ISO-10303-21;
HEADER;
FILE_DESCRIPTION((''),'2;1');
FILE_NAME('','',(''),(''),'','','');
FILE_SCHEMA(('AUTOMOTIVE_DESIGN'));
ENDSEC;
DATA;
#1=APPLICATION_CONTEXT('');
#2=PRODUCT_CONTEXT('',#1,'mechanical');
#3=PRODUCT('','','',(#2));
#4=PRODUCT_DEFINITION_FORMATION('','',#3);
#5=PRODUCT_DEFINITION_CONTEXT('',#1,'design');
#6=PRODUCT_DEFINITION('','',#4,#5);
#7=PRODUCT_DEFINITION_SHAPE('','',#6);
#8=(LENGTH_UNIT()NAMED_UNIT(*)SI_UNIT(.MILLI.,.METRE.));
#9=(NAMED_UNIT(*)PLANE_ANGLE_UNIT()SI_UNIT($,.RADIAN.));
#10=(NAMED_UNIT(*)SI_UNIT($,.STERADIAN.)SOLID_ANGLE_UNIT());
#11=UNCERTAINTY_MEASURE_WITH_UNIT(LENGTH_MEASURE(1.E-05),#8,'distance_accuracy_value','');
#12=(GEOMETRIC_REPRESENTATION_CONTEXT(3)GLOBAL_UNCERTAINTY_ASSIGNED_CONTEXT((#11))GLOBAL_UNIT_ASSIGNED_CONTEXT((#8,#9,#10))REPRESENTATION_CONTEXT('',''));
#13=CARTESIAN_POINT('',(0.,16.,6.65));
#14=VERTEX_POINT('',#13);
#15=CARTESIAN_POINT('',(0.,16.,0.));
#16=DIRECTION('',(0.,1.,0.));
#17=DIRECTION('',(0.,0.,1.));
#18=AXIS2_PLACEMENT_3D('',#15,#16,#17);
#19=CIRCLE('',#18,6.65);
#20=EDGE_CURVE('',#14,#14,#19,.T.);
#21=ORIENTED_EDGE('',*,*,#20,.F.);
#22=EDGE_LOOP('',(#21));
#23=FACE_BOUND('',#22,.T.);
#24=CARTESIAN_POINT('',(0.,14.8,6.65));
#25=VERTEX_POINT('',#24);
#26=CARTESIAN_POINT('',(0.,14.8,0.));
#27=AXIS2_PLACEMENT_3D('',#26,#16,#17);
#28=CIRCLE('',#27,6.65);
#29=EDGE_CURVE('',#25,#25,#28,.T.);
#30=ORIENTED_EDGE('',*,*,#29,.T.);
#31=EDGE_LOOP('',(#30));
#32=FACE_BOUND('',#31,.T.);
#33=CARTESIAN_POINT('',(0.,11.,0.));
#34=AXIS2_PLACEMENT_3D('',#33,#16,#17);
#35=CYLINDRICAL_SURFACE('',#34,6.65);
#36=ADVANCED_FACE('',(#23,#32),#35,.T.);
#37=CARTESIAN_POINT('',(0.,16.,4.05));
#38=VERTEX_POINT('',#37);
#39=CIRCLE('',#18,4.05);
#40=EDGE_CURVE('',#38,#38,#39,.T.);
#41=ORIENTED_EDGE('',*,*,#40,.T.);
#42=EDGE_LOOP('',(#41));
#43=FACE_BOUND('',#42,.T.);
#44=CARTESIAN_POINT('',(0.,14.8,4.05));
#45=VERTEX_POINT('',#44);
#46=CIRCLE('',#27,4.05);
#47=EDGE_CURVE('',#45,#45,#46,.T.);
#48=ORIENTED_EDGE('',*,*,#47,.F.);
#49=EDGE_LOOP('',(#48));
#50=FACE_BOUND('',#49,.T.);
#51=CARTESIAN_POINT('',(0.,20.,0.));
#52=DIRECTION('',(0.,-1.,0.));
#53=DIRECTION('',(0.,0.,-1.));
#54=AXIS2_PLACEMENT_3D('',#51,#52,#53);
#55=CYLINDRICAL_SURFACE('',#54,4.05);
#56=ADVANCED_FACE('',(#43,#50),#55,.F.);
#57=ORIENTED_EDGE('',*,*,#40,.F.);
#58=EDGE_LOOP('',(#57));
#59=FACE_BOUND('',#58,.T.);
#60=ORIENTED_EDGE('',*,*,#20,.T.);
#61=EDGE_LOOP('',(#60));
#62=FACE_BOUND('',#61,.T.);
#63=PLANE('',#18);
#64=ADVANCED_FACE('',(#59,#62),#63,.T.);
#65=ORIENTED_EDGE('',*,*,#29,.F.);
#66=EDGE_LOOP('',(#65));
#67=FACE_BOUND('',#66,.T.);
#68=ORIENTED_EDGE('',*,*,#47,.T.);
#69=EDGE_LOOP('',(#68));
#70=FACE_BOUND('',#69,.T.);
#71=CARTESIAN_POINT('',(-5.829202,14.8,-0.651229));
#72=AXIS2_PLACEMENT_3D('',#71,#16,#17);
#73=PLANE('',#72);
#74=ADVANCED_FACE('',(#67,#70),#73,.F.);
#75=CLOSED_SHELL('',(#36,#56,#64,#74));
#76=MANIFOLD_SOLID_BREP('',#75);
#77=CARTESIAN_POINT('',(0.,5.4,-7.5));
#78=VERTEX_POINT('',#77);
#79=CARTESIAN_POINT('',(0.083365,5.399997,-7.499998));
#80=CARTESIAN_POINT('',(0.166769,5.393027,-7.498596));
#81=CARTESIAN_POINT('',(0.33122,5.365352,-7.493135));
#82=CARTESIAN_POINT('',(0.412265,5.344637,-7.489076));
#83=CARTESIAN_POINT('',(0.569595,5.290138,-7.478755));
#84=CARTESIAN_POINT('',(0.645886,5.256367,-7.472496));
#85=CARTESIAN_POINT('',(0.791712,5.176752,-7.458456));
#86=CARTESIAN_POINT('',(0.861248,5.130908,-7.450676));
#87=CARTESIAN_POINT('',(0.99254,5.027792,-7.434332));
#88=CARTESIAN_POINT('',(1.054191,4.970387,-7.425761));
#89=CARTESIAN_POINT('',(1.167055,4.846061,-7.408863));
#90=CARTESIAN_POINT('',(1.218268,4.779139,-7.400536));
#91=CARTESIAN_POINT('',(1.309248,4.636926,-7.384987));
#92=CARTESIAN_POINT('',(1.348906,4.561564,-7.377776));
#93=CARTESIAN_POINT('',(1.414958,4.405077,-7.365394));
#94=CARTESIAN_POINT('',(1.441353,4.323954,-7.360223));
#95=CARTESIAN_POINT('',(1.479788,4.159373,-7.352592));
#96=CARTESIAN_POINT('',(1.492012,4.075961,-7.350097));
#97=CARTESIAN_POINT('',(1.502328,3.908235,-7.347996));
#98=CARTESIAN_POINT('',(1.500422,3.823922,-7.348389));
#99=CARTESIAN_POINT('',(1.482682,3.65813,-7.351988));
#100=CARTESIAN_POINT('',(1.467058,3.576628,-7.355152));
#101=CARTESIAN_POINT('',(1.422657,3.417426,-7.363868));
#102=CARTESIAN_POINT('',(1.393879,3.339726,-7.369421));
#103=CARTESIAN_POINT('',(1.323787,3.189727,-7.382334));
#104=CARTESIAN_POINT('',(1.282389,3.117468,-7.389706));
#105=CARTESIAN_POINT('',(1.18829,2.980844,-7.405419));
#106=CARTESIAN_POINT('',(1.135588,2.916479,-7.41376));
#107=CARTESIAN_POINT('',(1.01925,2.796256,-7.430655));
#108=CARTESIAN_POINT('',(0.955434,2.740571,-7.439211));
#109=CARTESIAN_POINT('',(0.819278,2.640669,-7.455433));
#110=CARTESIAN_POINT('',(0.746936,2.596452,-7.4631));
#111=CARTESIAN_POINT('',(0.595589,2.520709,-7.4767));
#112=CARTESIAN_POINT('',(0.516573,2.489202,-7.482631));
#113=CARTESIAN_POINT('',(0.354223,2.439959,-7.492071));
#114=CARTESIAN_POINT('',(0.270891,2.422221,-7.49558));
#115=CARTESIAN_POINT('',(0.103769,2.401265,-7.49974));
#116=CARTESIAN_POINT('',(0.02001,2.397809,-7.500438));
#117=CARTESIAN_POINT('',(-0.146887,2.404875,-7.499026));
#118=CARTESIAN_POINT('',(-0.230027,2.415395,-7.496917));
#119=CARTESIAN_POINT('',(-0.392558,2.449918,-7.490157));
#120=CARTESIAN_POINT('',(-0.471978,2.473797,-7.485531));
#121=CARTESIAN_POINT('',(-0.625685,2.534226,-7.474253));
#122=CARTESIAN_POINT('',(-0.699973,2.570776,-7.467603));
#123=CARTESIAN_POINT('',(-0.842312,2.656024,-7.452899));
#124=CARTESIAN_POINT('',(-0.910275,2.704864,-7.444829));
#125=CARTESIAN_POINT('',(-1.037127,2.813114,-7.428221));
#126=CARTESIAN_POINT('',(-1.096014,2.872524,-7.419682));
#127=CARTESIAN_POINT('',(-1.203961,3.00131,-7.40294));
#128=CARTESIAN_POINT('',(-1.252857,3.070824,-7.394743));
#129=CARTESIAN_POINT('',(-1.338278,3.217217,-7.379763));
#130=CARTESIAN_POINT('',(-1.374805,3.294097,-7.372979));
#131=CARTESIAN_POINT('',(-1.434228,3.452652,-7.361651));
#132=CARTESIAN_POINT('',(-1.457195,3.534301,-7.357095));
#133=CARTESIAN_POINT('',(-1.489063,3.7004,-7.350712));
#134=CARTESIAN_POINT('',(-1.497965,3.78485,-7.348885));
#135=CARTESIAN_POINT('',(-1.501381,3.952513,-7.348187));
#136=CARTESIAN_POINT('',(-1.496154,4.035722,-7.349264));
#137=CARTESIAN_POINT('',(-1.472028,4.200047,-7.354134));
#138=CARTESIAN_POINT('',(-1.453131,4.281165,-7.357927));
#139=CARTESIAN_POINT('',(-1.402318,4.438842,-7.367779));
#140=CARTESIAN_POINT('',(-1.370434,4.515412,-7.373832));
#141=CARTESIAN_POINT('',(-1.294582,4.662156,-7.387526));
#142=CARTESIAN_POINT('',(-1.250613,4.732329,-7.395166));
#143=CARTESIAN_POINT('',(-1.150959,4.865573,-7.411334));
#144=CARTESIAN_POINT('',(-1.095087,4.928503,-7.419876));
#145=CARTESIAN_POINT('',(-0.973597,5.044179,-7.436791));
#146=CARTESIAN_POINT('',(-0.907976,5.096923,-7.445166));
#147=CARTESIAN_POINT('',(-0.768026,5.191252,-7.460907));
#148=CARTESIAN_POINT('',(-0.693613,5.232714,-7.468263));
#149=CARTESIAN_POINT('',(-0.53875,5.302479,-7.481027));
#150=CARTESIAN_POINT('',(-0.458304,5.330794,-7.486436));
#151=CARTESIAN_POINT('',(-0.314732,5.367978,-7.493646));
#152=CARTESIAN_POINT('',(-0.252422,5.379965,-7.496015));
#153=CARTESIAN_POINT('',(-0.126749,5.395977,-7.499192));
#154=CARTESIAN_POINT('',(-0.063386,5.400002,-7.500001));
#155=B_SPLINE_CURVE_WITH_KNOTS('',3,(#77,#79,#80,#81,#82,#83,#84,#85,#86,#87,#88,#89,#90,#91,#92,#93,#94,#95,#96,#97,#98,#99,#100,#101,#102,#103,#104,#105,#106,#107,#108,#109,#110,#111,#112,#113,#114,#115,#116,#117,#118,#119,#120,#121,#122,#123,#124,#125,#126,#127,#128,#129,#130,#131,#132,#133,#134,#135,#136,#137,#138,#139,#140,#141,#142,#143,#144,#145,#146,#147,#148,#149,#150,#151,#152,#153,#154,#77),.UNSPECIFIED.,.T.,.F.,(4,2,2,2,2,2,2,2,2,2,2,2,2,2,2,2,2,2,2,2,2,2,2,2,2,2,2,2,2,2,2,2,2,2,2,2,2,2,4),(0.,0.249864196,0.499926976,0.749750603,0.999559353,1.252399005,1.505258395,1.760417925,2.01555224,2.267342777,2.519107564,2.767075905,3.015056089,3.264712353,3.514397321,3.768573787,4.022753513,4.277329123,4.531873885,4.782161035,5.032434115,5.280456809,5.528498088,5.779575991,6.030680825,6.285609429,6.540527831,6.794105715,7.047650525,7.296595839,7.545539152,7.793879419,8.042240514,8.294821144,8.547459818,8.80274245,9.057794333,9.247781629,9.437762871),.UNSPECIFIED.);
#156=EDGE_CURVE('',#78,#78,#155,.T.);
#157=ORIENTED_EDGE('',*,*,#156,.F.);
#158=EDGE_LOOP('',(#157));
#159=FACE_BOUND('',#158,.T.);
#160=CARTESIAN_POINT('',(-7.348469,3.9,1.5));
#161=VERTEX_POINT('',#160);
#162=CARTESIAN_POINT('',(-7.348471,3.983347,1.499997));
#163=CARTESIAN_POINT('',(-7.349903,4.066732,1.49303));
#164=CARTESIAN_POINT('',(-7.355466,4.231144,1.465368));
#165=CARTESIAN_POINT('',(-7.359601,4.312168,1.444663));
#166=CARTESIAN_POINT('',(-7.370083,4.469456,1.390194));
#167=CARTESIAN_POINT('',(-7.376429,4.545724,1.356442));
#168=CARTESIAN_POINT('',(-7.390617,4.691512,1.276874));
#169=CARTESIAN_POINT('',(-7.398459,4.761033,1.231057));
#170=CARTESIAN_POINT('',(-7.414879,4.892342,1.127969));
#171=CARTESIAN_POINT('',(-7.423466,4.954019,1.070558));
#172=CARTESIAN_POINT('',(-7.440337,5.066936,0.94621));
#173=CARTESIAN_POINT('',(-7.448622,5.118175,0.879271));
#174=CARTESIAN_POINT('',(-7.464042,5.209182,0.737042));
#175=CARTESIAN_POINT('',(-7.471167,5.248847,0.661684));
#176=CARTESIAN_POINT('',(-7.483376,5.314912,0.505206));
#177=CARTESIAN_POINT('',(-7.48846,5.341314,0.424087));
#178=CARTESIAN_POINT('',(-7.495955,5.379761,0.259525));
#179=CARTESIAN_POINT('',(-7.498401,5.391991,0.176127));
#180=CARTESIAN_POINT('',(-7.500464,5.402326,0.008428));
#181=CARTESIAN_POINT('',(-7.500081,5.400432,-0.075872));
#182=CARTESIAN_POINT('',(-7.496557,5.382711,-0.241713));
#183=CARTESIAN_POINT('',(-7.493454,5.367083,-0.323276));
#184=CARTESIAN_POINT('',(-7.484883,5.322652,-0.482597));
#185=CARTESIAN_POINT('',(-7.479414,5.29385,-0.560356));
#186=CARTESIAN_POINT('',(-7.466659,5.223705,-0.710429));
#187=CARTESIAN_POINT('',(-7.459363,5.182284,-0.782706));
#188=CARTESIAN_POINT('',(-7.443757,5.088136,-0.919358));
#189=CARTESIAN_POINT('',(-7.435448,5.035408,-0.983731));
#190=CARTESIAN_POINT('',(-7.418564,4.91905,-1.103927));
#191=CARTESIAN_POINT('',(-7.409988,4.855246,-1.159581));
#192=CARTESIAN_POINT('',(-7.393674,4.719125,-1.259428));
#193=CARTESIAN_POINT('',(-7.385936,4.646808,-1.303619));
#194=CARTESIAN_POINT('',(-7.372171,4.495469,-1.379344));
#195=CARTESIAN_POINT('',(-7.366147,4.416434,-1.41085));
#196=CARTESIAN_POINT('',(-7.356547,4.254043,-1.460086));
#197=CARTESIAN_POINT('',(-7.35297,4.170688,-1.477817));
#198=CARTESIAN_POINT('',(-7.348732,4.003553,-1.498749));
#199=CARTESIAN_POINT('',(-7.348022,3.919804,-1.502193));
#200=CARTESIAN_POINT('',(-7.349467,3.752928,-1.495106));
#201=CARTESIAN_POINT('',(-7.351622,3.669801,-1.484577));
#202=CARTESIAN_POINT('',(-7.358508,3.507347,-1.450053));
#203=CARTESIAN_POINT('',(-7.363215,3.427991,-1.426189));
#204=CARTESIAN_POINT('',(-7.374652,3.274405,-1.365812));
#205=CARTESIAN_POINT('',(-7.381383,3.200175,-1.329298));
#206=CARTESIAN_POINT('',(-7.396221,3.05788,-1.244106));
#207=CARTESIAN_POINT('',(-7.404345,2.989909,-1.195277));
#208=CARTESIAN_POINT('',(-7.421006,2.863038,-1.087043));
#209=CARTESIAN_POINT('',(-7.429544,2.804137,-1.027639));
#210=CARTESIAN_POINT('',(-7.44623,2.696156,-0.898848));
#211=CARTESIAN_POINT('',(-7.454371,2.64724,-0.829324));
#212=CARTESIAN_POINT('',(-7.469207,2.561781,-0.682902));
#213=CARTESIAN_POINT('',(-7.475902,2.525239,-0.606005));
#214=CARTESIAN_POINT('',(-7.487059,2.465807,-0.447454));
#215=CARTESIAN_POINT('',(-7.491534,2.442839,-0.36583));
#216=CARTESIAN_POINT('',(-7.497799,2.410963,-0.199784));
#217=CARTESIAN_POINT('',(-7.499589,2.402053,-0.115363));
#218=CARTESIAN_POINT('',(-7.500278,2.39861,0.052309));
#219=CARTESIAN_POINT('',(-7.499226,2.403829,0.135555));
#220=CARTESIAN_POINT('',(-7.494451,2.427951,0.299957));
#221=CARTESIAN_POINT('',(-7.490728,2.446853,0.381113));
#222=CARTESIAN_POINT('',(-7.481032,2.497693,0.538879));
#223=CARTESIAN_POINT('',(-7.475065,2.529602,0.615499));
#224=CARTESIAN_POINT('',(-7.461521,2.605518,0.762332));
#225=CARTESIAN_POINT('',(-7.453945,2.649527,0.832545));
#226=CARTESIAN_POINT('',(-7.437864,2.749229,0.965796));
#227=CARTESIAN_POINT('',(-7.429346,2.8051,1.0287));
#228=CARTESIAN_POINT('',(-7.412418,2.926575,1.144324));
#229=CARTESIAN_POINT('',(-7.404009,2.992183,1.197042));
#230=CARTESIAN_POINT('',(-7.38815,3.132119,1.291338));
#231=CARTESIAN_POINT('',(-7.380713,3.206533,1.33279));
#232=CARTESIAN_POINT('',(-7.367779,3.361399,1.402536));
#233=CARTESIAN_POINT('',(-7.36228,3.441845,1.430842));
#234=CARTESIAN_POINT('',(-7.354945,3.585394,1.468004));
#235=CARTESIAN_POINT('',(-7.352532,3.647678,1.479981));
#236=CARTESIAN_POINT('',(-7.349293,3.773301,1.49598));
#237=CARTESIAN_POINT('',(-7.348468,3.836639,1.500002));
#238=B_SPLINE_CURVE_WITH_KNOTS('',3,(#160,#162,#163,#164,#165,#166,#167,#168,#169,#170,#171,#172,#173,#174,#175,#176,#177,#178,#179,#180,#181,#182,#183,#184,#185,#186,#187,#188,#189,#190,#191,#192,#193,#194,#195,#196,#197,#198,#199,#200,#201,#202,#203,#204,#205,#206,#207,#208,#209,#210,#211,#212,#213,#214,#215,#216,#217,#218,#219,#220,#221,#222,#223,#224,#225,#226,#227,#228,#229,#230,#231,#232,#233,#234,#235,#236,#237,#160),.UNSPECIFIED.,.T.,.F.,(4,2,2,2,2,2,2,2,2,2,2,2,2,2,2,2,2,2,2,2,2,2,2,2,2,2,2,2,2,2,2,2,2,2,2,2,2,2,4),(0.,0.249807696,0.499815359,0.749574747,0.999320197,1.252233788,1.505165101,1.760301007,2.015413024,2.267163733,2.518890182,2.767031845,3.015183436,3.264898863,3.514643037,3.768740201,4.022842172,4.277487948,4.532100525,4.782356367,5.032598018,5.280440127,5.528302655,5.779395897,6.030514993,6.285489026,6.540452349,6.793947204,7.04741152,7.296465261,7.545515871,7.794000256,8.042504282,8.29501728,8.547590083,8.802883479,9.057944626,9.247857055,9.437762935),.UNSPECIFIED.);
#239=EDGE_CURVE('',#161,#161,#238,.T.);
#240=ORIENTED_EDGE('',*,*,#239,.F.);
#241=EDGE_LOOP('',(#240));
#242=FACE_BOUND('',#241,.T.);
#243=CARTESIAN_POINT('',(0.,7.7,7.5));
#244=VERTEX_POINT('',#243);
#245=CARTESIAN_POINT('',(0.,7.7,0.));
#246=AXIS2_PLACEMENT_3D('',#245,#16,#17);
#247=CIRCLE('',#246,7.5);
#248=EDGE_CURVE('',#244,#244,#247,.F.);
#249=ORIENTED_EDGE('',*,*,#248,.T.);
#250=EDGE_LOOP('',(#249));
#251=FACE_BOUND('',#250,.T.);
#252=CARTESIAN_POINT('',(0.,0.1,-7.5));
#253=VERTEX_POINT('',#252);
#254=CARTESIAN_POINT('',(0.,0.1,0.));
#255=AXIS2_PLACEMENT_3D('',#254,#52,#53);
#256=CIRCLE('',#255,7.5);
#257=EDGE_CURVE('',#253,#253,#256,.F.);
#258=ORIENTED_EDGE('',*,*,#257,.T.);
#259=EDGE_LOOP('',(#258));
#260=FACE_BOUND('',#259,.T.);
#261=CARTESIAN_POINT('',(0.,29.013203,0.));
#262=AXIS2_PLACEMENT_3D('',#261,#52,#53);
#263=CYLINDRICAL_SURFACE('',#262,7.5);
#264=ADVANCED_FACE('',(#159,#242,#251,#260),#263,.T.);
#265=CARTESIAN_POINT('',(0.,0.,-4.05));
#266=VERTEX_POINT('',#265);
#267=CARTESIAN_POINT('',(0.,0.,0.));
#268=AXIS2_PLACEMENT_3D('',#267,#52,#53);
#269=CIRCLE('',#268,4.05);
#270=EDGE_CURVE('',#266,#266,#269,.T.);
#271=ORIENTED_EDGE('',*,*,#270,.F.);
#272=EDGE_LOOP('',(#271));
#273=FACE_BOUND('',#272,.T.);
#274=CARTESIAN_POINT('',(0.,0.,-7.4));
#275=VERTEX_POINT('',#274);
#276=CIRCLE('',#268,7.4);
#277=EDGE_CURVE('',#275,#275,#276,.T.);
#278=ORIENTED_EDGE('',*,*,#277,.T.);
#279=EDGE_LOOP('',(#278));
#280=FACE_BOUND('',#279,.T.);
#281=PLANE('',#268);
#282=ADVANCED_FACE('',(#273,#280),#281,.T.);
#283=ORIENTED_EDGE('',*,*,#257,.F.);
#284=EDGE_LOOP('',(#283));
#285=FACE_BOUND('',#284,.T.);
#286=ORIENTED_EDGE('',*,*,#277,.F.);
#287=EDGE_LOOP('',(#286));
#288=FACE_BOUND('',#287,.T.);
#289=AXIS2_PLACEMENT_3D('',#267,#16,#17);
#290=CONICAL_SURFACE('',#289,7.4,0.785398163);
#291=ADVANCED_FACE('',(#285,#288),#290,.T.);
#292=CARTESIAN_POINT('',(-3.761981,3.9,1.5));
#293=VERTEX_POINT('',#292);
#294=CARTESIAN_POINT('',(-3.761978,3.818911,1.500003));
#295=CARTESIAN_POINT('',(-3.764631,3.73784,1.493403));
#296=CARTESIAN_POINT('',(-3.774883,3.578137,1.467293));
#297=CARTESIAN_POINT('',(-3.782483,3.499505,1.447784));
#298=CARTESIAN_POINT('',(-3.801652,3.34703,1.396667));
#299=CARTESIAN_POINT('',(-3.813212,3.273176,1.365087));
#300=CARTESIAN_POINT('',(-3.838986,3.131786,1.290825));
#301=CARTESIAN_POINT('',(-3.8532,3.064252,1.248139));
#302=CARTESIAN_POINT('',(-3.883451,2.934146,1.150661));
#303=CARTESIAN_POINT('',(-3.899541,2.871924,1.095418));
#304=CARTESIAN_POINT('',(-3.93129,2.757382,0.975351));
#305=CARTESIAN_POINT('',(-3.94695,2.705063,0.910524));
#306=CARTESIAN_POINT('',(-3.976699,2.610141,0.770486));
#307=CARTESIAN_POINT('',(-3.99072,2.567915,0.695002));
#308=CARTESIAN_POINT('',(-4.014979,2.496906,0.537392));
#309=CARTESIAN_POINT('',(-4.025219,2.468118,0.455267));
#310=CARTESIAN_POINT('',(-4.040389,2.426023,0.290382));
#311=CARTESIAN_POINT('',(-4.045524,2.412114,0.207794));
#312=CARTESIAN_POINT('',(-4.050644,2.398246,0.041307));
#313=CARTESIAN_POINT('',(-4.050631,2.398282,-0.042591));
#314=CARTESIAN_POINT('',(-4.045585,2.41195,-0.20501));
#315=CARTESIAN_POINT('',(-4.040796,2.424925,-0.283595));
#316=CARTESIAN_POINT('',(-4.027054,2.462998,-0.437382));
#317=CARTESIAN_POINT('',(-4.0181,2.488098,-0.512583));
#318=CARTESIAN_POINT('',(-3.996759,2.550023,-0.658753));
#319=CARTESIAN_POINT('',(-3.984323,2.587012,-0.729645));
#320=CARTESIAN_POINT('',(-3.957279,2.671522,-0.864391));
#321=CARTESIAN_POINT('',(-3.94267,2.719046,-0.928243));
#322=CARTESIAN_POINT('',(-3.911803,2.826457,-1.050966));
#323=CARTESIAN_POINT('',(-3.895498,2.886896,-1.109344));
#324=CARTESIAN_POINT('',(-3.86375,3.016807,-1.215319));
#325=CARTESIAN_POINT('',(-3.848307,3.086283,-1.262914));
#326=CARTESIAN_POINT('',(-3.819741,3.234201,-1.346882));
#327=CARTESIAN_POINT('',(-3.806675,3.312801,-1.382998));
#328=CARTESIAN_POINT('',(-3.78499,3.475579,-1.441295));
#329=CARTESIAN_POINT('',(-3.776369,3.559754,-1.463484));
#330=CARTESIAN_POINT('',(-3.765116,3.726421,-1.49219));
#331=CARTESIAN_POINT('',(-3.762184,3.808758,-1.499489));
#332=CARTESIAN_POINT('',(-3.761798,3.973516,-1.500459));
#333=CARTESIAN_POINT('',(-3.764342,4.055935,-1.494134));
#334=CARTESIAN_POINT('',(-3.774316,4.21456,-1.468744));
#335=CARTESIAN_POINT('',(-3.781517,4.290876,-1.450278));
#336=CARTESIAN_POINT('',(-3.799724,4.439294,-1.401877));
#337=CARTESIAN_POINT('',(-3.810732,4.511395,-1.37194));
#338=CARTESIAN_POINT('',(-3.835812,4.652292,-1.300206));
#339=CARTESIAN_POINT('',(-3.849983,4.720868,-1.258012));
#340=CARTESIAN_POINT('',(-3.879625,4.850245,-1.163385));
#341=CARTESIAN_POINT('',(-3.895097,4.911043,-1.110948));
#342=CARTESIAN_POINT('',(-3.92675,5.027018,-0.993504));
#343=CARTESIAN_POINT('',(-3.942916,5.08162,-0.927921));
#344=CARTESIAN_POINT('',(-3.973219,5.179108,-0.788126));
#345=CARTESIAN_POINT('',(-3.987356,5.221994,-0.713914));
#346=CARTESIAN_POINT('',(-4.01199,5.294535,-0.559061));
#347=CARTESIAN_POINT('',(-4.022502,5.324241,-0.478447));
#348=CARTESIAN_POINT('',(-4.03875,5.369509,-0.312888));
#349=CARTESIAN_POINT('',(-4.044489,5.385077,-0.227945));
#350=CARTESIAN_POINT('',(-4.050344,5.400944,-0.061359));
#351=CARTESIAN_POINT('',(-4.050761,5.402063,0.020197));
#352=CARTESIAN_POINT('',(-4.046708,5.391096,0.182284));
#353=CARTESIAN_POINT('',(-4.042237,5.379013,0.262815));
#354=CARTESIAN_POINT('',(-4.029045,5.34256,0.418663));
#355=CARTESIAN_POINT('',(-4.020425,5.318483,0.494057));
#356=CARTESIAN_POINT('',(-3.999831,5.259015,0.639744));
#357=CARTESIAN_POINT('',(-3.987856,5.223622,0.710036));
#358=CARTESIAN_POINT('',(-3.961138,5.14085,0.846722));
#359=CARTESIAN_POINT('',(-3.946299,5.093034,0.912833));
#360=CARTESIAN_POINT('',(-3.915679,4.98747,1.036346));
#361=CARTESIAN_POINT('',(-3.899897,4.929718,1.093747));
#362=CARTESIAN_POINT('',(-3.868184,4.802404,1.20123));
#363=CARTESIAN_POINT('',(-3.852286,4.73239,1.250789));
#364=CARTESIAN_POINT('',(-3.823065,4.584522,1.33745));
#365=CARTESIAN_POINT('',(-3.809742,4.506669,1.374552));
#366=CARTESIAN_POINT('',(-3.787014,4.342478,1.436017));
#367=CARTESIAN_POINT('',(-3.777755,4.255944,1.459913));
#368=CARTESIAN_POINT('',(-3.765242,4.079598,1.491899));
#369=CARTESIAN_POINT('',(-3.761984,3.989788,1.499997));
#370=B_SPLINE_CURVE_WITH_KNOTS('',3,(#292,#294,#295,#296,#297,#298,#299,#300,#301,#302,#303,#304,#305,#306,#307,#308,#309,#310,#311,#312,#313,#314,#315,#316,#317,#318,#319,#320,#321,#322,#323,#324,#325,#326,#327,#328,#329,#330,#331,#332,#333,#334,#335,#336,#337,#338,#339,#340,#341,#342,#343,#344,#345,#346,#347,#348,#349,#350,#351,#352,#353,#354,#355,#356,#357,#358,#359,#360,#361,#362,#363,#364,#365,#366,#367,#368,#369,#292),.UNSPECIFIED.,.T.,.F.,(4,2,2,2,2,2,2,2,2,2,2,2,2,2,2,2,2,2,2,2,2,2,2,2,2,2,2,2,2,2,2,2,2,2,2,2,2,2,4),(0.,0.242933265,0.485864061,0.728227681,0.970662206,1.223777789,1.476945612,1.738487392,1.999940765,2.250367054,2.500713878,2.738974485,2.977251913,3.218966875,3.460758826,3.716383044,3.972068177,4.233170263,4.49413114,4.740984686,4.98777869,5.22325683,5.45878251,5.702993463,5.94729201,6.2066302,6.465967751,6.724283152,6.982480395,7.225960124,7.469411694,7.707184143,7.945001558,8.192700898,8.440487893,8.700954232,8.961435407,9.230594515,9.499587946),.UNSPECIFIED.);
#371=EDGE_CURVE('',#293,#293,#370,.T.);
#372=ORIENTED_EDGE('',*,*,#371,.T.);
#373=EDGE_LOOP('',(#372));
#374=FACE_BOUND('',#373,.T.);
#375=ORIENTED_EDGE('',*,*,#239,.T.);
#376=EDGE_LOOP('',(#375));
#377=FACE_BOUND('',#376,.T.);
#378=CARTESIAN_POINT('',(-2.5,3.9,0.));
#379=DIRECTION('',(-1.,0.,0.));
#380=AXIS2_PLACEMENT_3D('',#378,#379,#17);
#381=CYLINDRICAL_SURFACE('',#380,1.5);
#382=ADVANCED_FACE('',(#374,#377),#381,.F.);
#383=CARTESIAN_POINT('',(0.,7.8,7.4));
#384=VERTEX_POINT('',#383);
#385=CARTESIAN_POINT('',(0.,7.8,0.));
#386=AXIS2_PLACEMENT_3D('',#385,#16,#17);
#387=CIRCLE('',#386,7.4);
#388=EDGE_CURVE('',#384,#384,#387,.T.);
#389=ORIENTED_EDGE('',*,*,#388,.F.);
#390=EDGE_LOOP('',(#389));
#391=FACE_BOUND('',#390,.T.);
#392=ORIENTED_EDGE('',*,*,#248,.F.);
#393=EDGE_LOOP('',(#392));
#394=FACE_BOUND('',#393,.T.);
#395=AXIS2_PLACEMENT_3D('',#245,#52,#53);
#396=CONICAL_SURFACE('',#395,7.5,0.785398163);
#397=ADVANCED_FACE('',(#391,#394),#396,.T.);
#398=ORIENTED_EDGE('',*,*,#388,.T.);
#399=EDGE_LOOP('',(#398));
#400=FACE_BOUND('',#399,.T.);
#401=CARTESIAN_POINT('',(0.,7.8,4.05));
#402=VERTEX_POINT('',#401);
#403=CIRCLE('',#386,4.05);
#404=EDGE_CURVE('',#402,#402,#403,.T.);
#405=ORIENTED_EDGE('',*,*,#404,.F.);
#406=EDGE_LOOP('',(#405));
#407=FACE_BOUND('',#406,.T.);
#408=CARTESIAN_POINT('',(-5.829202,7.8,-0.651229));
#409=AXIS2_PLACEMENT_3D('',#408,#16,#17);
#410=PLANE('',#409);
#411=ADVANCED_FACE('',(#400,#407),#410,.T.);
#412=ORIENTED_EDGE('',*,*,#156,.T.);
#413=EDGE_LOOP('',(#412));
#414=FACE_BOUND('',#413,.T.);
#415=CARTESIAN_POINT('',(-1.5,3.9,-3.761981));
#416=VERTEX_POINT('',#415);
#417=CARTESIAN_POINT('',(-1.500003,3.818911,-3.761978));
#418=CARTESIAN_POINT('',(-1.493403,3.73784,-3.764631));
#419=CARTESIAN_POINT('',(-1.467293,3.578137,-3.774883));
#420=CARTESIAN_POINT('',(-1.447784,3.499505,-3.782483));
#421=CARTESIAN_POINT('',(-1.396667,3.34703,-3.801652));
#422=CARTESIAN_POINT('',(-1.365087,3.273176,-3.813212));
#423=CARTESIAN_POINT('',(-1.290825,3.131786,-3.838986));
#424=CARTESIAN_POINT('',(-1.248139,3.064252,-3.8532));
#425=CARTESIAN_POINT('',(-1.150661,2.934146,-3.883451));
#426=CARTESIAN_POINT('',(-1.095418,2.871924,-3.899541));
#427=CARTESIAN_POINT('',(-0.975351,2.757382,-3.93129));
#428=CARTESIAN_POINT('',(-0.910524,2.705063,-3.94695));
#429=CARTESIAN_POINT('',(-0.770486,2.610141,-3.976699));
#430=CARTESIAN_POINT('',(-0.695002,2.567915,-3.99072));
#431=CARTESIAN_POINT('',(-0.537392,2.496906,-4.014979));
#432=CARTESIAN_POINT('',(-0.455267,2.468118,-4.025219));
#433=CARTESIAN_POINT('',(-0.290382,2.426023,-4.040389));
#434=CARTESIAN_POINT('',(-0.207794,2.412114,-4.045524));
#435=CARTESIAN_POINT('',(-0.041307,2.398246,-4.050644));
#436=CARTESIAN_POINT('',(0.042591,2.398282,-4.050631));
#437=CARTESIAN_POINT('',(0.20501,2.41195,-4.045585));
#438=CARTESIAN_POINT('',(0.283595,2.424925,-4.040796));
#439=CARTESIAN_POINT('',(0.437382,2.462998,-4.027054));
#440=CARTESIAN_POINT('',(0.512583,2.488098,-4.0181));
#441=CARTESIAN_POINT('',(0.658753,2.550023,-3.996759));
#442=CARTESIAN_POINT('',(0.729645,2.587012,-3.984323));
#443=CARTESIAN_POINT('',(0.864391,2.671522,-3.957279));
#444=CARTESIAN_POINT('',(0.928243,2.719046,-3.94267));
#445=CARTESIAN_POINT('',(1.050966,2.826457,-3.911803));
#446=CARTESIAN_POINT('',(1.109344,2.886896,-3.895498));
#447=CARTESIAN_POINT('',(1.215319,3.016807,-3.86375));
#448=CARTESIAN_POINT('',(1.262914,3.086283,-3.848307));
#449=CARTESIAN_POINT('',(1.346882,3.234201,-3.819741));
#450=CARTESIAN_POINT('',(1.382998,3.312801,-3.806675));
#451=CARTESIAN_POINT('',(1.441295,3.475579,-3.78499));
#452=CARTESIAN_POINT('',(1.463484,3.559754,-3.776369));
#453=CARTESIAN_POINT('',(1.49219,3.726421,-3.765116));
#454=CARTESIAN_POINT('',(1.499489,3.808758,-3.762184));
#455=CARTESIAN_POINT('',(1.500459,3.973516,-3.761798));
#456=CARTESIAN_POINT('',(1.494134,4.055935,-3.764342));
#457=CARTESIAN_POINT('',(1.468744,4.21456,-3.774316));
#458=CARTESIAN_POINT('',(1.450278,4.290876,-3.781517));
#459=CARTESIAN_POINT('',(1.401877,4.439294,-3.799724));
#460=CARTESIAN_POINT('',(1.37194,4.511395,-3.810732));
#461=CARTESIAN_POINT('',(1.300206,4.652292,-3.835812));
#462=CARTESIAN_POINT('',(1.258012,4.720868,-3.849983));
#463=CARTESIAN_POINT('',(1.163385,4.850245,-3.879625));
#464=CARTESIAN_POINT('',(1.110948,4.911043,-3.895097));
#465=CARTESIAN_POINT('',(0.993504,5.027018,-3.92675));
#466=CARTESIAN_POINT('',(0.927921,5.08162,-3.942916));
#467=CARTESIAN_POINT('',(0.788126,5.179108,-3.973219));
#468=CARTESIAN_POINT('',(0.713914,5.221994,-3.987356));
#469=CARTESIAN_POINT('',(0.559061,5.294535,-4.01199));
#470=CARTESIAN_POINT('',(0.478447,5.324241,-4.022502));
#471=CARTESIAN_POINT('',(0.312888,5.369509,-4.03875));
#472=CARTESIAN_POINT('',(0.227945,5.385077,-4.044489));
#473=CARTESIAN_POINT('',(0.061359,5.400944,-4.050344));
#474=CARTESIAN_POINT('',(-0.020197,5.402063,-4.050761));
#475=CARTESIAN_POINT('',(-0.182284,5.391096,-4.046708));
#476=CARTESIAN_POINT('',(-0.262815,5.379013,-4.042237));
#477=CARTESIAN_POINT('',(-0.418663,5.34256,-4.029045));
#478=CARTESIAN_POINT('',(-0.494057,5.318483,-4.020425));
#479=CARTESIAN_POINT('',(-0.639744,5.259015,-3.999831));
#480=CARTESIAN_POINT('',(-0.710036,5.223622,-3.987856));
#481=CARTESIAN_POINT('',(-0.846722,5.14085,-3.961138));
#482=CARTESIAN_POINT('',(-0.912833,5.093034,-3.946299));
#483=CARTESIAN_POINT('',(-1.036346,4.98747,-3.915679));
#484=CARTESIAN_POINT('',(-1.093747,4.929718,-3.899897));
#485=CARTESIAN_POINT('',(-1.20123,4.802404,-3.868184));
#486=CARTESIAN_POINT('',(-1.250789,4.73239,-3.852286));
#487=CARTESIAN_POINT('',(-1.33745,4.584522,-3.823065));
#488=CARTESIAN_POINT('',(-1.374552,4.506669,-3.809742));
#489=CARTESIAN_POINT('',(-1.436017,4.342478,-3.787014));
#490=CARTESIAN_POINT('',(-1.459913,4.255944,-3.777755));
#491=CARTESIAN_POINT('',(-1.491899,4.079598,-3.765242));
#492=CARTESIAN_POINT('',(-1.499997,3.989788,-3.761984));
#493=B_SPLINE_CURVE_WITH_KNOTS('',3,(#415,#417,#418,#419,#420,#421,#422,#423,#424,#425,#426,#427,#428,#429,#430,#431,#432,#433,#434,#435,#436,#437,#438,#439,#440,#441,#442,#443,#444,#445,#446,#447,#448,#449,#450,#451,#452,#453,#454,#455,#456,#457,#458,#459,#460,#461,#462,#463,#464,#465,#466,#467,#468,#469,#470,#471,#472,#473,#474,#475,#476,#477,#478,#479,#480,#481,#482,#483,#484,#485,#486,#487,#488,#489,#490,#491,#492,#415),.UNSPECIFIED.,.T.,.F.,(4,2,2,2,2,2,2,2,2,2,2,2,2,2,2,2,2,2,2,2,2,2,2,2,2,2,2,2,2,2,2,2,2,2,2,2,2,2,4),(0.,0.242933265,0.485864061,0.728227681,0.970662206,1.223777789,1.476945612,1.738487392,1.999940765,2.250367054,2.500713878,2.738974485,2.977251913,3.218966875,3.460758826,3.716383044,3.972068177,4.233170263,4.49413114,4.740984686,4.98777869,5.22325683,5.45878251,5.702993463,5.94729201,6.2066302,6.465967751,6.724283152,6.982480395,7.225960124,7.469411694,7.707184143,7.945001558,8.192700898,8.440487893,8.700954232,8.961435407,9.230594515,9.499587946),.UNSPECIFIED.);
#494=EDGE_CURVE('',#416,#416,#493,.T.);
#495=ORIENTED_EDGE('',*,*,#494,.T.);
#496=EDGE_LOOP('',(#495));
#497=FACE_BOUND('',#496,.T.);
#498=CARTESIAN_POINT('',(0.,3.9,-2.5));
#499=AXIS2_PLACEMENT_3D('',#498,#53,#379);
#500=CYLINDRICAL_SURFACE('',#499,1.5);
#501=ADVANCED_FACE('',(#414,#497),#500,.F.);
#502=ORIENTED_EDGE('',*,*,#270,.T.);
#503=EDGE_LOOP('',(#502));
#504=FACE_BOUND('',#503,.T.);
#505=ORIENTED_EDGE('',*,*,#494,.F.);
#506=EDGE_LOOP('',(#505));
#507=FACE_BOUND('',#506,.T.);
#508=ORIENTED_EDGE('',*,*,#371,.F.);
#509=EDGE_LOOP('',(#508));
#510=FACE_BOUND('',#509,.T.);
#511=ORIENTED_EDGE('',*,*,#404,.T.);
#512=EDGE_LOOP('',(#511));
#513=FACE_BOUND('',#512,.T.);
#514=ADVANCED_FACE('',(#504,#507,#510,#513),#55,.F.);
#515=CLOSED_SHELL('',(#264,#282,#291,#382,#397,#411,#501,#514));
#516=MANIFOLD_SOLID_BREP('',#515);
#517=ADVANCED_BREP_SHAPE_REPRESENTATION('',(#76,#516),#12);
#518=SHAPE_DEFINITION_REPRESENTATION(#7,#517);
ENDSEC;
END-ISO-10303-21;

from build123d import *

# Parameters (mm, degrees)
P_IDAT_START            = 7.8
SKICA1_R                = 2.5
P_IDAT_VYSUNUT_M1_DEPTH = 7
SKICA2_R                = 3.5
SKICA2_R_2              = 2.5
P_IDAT_VYSUNUT_M2_DEPTH = 7.8
SKICA3_R                = 3.5
SKICA3_R_2              = 2.5
P_IDAT_VYSUNUT_M3_DEPTH = 1.2
SKICA5_R                = 7.5
SKICA5_R_2              = 3.5
P_IDAT_VYSUNUT_M4_DEPTH = 1.2
SKICA6_R                = 7.5
SKICA6_R_2              = 3.5
P_IDAT_VYSUNUT_M5_DEPTH = 7.8
ZKOSEN_1_SIZE           = 0.1
ZKOSEN_2_SIZE           = 0.1
ZKOSEN_3_SIZE           = 0.1
SKETCH8_OUTSIDE_W       = 22.314
SKETCH8_OUTSIDE_H       = 22.314
SKETCH8_OUTSIDE_R       = 6.65
CUT_EXTRUDE2_DEPTH      = 5
SKETCH19_R              = 1.5
CUT_EXTRUDE6_DEPTH      = 5
SKETCH20_R              = 1.5
CUT_EXTRUDE7_DEPTH      = 5
SKETCH7_R               = 4.05
CUT_EXTRUDE9_DEPTH      = 20
SKETCH27_R              = 7.4
CUT_EXTRUDE12_DEPTH     = 7


with BuildPart() as part:
    # Skica1 → Přidat vysunutím1 (new body)
    with BuildSketch(Plane(origin=(0, 0, 0), x_dir=(1, 0, 0), z_dir=(0, 1, 0)).offset(P_IDAT_START)):
        with BuildLine():
            ThreePointArc((-5.730143195, 1.098270155), (-5.09645097, 1.530497044), (-5.387174672, 2.240331989))
            ThreePointArc((-5.387174672, 2.240331989), (-5.468060657, 2.292707421), (-5.540463547, 2.356296335))
            ThreePointArc((-5.540463547, 2.356296335), (-5.573874331, 2.399596558), (-5.596043873, 2.44959357))
            ThreePointArc((-5.596043873, 2.44959357), (-5.50369925, 2.650567912), (-5.404139771, 2.848067596))
            ThreePointArc((-5.404139771, 2.848067596), (-5.351227535, 2.86190541), (-5.296542742, 2.862779021))
            ThreePointArc((-5.296542742, 2.862779021), (-5.201685094, 2.845815675), (-5.110305882, 2.815228615))
            ThreePointArc((-5.110305882, 2.815228615), (-4.374063308, 3.030479148), (-4.431206919, 3.795410862))
            ThreePointArc((-4.431206919, 3.795410862), (-4.491949163, 3.870218002), (-4.541158349, 3.953068377))
            ThreePointArc((-4.541158349, 3.953068377), (-4.559553388, 4.004573836), (-4.565187949, 4.058974585))
            ThreePointArc((-4.565187949, 4.058974585), (-4.415258506, 4.221576484), (-4.259541056, 4.378644275))
            ThreePointArc((-4.259541056, 4.378644275), (-4.204942409, 4.375454038), (-4.15266412, 4.359386362))
            ThreePointArc((-4.15266412, 4.359386362), (-4.067691098, 4.313940635), (-3.990236225, 4.256612884))
            ThreePointArc((-3.990236225, 4.256612884), (-3.223511854, 4.233816838), (-3.041481758, 4.978968476))
            ThreePointArc((-3.041481758, 4.978968476), (-3.076134388, 5.06888468), (-3.097332931, 5.162886543))
            ThreePointArc((-3.097332931, 5.162886543), (-3.09891159, 5.217555525), (-3.08745962, 5.271034888))
            ThreePointArc((-3.08745962, 5.271034888), (-2.894621497, 5.379347737), (-2.697988784, 5.480608745))
            ThreePointArc((-2.697988784, 5.480608745), (-2.647048223, 5.460702739), (-2.6022938, 5.429266591))
            ThreePointArc((-2.6022938, 5.429266591), (-2.535523156, 5.359787029), (-2.479574443, 5.281330225))
            ThreePointArc((-2.479574443, 5.281330225), (-1.7574206, 5.022719037), (-1.354035171, 5.675149965))
            ThreePointArc((-1.354035171, 5.675149965), (-1.359206146, 5.771373608), (-1.350318985, 5.867325402))
            ThreePointArc((-1.350318985, 5.867325402), (-1.334926735, 5.919806527), (-1.307509232, 5.967129569))
            ThreePointArc((-1.307509232, 5.967129569), (-1.090638767, 6.010550954), (-0.872338572, 6.046093045))
            ThreePointArc((-0.872338572, 6.046093045), (-0.830042514, 6.01141981), (-0.797192832, 5.967692379))
            ThreePointArc((-0.797192832, 5.967692379), (-0.755160541, 5.880980125), (-0.726194639, 5.789074167))
            ThreePointArc((-0.726194639, 5.789074167), (-0.119300773, 5.319962501), (0.465953812, 5.815808234))
            ThreePointArc((0.465953812, 5.815808234), (0.490770664, 5.908920276), (0.528873591, 5.997429571))
            ThreePointArc((0.528873591, 5.997429571), (0.55973005, 6.04258562), (0.600429269, 6.079120034))
            ThreePointArc((0.600429269, 6.079120034), (0.820103284, 6.053399565), (1.038702217, 6.019743632))
            ThreePointArc((1.038702217, 6.019743632), (1.06821354, 5.973697225), (1.085942924, 5.921958857))
            ThreePointArc((1.085942924, 5.921958857), (1.099122448, 5.826501911), (1.098270155, 5.730143195))
            ThreePointArc((1.098270155, 5.730143195), (1.530497044, 5.09645097), (2.240331989, 5.387174672))
            ThreePointArc((2.240331989, 5.387174672), (2.292707421, 5.468060657), (2.356296335, 5.540463547))
            ThreePointArc((2.356296335, 5.540463547), (2.399596558, 5.573874331), (2.44959357, 5.596043873))
            ThreePointArc((2.44959357, 5.596043873), (2.650567912, 5.50369925), (2.848067596, 5.404139771))
            ThreePointArc((2.848067596, 5.404139771), (2.86190541, 5.351227535), (2.862779021, 5.296542742))
            ThreePointArc((2.862779021, 5.296542742), (2.845815675, 5.201685094), (2.815228615, 5.110305882))
            ThreePointArc((2.815228615, 5.110305882), (3.030479148, 4.374063308), (3.795410862, 4.431206919))
            ThreePointArc((3.795410862, 4.431206919), (3.870218002, 4.491949163), (3.953068377, 4.541158349))
            ThreePointArc((3.953068377, 4.541158349), (4.004573836, 4.559553388), (4.058974585, 4.565187949))
            ThreePointArc((4.058974585, 4.565187949), (4.221576484, 4.415258506), (4.378644275, 4.259541056))
            ThreePointArc((4.378644275, 4.259541056), (4.375454038, 4.204942409), (4.359386362, 4.15266412))
            ThreePointArc((4.359386362, 4.15266412), (4.313940635, 4.067691098), (4.256612884, 3.990236225))
            ThreePointArc((4.256612884, 3.990236225), (4.233816838, 3.223511854), (4.978968476, 3.041481758))
            ThreePointArc((4.978968476, 3.041481758), (5.06888468, 3.076134388), (5.162886543, 3.097332931))
            ThreePointArc((5.162886543, 3.097332931), (5.217555525, 3.09891159), (5.271034888, 3.08745962))
            ThreePointArc((5.271034888, 3.08745962), (5.379347737, 2.894621497), (5.480608745, 2.697988784))
            ThreePointArc((5.480608745, 2.697988784), (5.460702739, 2.647048223), (5.429266591, 2.6022938))
            ThreePointArc((5.429266591, 2.6022938), (5.359787029, 2.535523156), (5.281330225, 2.479574443))
            ThreePointArc((5.281330225, 2.479574443), (5.022719037, 1.7574206), (5.675149965, 1.354035171))
            ThreePointArc((5.675149965, 1.354035171), (5.771373608, 1.359206146), (5.867325402, 1.350318985))
            ThreePointArc((5.867325402, 1.350318985), (5.919806527, 1.334926735), (5.967129569, 1.307509232))
            ThreePointArc((5.967129569, 1.307509232), (6.010550954, 1.090638767), (6.046093045, 0.872338572))
            ThreePointArc((6.046093045, 0.872338572), (6.01141981, 0.830042514), (5.967692379, 0.797192832))
            ThreePointArc((5.967692379, 0.797192832), (5.880980125, 0.755160541), (5.789074167, 0.726194639))
            ThreePointArc((5.789074167, 0.726194639), (5.319962501, 0.119300773), (5.815808234, -0.465953812))
            ThreePointArc((5.815808234, -0.465953812), (5.908920276, -0.490770664), (5.997429571, -0.528873591))
            ThreePointArc((5.997429571, -0.528873591), (6.04258562, -0.55973005), (6.079120034, -0.600429269))
            ThreePointArc((6.079120034, -0.600429269), (6.053399565, -0.820103284), (6.019743632, -1.038702217))
            ThreePointArc((6.019743632, -1.038702217), (5.973697225, -1.06821354), (5.921958857, -1.085942924))
            ThreePointArc((5.921958857, -1.085942924), (5.826501911, -1.099122448), (5.730143195, -1.098270155))
            ThreePointArc((5.730143195, -1.098270155), (5.09645097, -1.530497044), (5.387174672, -2.240331989))
            ThreePointArc((5.387174672, -2.240331989), (5.468060657, -2.292707421), (5.540463547, -2.356296335))
            ThreePointArc((5.540463547, -2.356296335), (5.573874331, -2.399596558), (5.596043873, -2.44959357))
            ThreePointArc((5.596043873, -2.44959357), (5.50369925, -2.650567911), (5.404139771, -2.848067596))
            ThreePointArc((5.404139771, -2.848067596), (5.351227535, -2.86190541), (5.296542742, -2.862779021))
            ThreePointArc((5.296542742, -2.862779021), (5.201685094, -2.845815675), (5.110305882, -2.815228615))
            ThreePointArc((5.110305882, -2.815228615), (4.374063308, -3.030479148), (4.431206919, -3.795410862))
            ThreePointArc((4.431206919, -3.795410862), (4.491949163, -3.870218002), (4.541158349, -3.953068377))
            ThreePointArc((4.541158349, -3.953068377), (4.559553388, -4.004573836), (4.565187949, -4.058974585))
            ThreePointArc((4.565187949, -4.058974585), (4.415258506, -4.221576484), (4.259541056, -4.378644275))
            ThreePointArc((4.259541056, -4.378644275), (4.204942409, -4.375454038), (4.15266412, -4.359386362))
            ThreePointArc((4.15266412, -4.359386362), (4.067691098, -4.313940635), (3.990236225, -4.256612884))
            ThreePointArc((3.990236225, -4.256612884), (3.223511854, -4.233816838), (3.041481758, -4.978968476))
            ThreePointArc((3.041481758, -4.978968476), (3.076134388, -5.06888468), (3.097332931, -5.162886543))
            ThreePointArc((3.097332931, -5.162886543), (3.09891159, -5.217555525), (3.08745962, -5.271034888))
            ThreePointArc((3.08745962, -5.271034888), (2.894621497, -5.379347737), (2.697988784, -5.480608745))
            ThreePointArc((2.697988784, -5.480608745), (2.647048223, -5.460702739), (2.6022938, -5.429266591))
            ThreePointArc((2.6022938, -5.429266591), (2.535523156, -5.359787029), (2.479574443, -5.281330225))
            ThreePointArc((2.479574443, -5.281330225), (1.7574206, -5.022719037), (1.354035171, -5.675149965))
            ThreePointArc((1.354035171, -5.675149965), (1.359206146, -5.771373608), (1.350318985, -5.867325402))
            ThreePointArc((1.350318985, -5.867325402), (1.334926735, -5.919806527), (1.307509232, -5.967129569))
            ThreePointArc((1.307509232, -5.967129569), (1.090638767, -6.010550954), (0.872338572, -6.046093045))
            ThreePointArc((0.872338572, -6.046093045), (0.830042514, -6.01141981), (0.797192832, -5.967692379))
            ThreePointArc((0.797192832, -5.967692379), (0.755160541, -5.880980125), (0.726194639, -5.789074167))
            ThreePointArc((0.726194639, -5.789074167), (0.119300773, -5.319962501), (-0.465953812, -5.815808234))
            ThreePointArc((-0.465953812, -5.815808234), (-0.490770664, -5.908920276), (-0.528873591, -5.997429571))
            ThreePointArc((-0.528873591, -5.997429571), (-0.55973005, -6.04258562), (-0.600429269, -6.079120034))
            ThreePointArc((-0.600429269, -6.079120034), (-0.820103284, -6.053399565), (-1.038702217, -6.019743632))
            ThreePointArc((-1.038702217, -6.019743632), (-1.06821354, -5.973697225), (-1.085942924, -5.921958857))
            ThreePointArc((-1.085942924, -5.921958857), (-1.099122448, -5.826501911), (-1.098270155, -5.730143195))
            ThreePointArc((-1.098270155, -5.730143195), (-1.530497044, -5.09645097), (-2.240331989, -5.387174672))
            ThreePointArc((-2.240331989, -5.387174672), (-2.292707421, -5.468060657), (-2.356296335, -5.540463547))
            ThreePointArc((-2.356296335, -5.540463547), (-2.399596558, -5.573874331), (-2.44959357, -5.596043873))
            ThreePointArc((-2.44959357, -5.596043873), (-2.650567912, -5.50369925), (-2.848067596, -5.404139771))
            ThreePointArc((-2.848067596, -5.404139771), (-2.86190541, -5.351227535), (-2.862779021, -5.296542742))
            ThreePointArc((-2.862779021, -5.296542742), (-2.845815675, -5.201685094), (-2.815228615, -5.110305882))
            ThreePointArc((-2.815228615, -5.110305882), (-3.030479148, -4.374063308), (-3.795410862, -4.431206919))
            ThreePointArc((-3.795410862, -4.431206919), (-3.870218002, -4.491949163), (-3.953068377, -4.541158349))
            ThreePointArc((-3.953068377, -4.541158349), (-4.004573836, -4.559553388), (-4.058974585, -4.565187949))
            ThreePointArc((-4.058974585, -4.565187949), (-4.221576484, -4.415258506), (-4.378644275, -4.259541056))
            ThreePointArc((-4.378644275, -4.259541056), (-4.375454038, -4.204942409), (-4.359386362, -4.15266412))
            ThreePointArc((-4.359386362, -4.15266412), (-4.313940635, -4.067691098), (-4.256612884, -3.990236225))
            ThreePointArc((-4.256612884, -3.990236225), (-4.233816838, -3.223511854), (-4.978968476, -3.041481758))
            ThreePointArc((-4.978968476, -3.041481758), (-5.06888468, -3.076134388), (-5.162886543, -3.097332931))
            ThreePointArc((-5.162886543, -3.097332931), (-5.217555525, -3.09891159), (-5.271034888, -3.08745962))
            ThreePointArc((-5.271034888, -3.08745962), (-5.379347737, -2.894621497), (-5.480608745, -2.697988784))
            ThreePointArc((-5.480608745, -2.697988784), (-5.460702739, -2.647048223), (-5.429266591, -2.6022938))
            ThreePointArc((-5.429266591, -2.6022938), (-5.359787029, -2.535523156), (-5.281330225, -2.479574443))
            ThreePointArc((-5.281330225, -2.479574443), (-5.022719037, -1.7574206), (-5.675149965, -1.354035171))
            ThreePointArc((-5.675149965, -1.354035171), (-5.771373608, -1.359206146), (-5.867325402, -1.350318985))
            ThreePointArc((-5.867325402, -1.350318985), (-5.919806527, -1.334926735), (-5.967129569, -1.307509232))
            ThreePointArc((-5.967129569, -1.307509232), (-6.010550954, -1.090638767), (-6.046093045, -0.872338572))
            ThreePointArc((-6.046093045, -0.872338572), (-6.01141981, -0.830042514), (-5.967692379, -0.797192832))
            ThreePointArc((-5.967692379, -0.797192832), (-5.880980125, -0.755160541), (-5.789074167, -0.726194639))
            ThreePointArc((-5.789074167, -0.726194639), (-5.319962501, -0.119300773), (-5.815808234, 0.465953812))
            ThreePointArc((-5.815808234, 0.465953812), (-5.908920276, 0.490770664), (-5.997429571, 0.528873591))
            ThreePointArc((-5.997429571, 0.528873591), (-6.04258562, 0.55973005), (-6.079120034, 0.600429269))
            ThreePointArc((-6.079120034, 0.600429269), (-6.053399565, 0.820103284), (-6.019743632, 1.038702217))
            ThreePointArc((-6.019743632, 1.038702217), (-5.973697225, 1.06821354), (-5.921958857, 1.085942924))
            ThreePointArc((-5.921958857, 1.085942924), (-5.826501911, 1.099122448), (-5.730143195, 1.098270155))
        make_face()
        Circle(SKICA1_R, mode=Mode.SUBTRACT)
    extrude(amount=P_IDAT_VYSUNUT_M1_DEPTH)

    # Skica2 → Přidat vysunutím2 (add)
    with BuildSketch(Plane.XZ.offset(-7.8)):
        Circle(SKICA2_R)
        Circle(SKICA2_R_2, mode=Mode.SUBTRACT)
    extrude(amount=P_IDAT_VYSUNUT_M2_DEPTH)

    # Skica3 → Přidat vysunutím3 (add)
    with BuildSketch(Plane(origin=(0, 14.8, 0), x_dir=(1, 0, 0), z_dir=(0, 1, 0))):
        Circle(SKICA3_R)
        Circle(SKICA3_R_2, mode=Mode.SUBTRACT)
    extrude(amount=P_IDAT_VYSUNUT_M3_DEPTH)

    # Zkosení2
    zkosen_2_edges = [part.edges().sort_by_distance(p)[0] for p in [
        (-2.5, 0, 0),
        (-2.5, 16, 0),
    ]]
    chamfer(zkosen_2_edges, length=ZKOSEN_2_SIZE)


with BuildPart() as body_2:
    # Skica5 → Přidat vysunutím4 (new body)
    with BuildSketch(Plane(origin=(0, 16, 0), x_dir=(1, 0, 0), z_dir=(0, 1, 0))):
        Circle(SKICA5_R)
        Circle(SKICA5_R_2, mode=Mode.SUBTRACT)
    extrude(amount=-P_IDAT_VYSUNUT_M4_DEPTH)

    # Zkosení1
    zkosen_1_edges = [body_2.edges().sort_by_distance(p)[0] for p in [
        (-7.5, 16, 0),
        (-7.5, 14.8, 0),
    ]]
    chamfer(zkosen_1_edges, length=ZKOSEN_1_SIZE)

    # Sketch8 outside → Cut-Extrude2 (cut)
    with BuildSketch(Plane(origin=(0, 16, 0), x_dir=(1, 0, 0), z_dir=(0, 1, 0))):
        Rectangle(SKETCH8_OUTSIDE_W, SKETCH8_OUTSIDE_H)
        Circle(SKETCH8_OUTSIDE_R, mode=Mode.SUBTRACT)
    extrude(amount=-CUT_EXTRUDE2_DEPTH, mode=Mode.SUBTRACT)


with BuildPart() as body_3:
    # Skica6 → Přidat vysunutím5 (new body)
    with BuildSketch(Plane.XZ):
        Circle(SKICA6_R)
        Circle(SKICA6_R_2, mode=Mode.SUBTRACT)
    extrude(amount=-P_IDAT_VYSUNUT_M5_DEPTH)

    # Zkosení3
    zkosen_3_edges = [body_3.edges().sort_by_distance(p)[0] for p in [
        (-7.5, 0, 0),
        (-7.5, 7.8, 0),
    ]]
    chamfer(zkosen_3_edges, length=ZKOSEN_3_SIZE)

    # Sketch19 → Cut-Extrude6 (cut)
    with BuildSketch(Plane(origin=(0, 0, -7.5), x_dir=(-1, 0, 0), z_dir=(0, 0, -1))):
        with Locations((0, 3.9)):
            Circle(SKETCH19_R)
    extrude(amount=-CUT_EXTRUDE6_DEPTH, mode=Mode.SUBTRACT)

    # Sketch20 → Cut-Extrude7 (cut)
    with BuildSketch(Plane.ZY.offset(7.5)):
        with Locations((0, 3.9)):
            Circle(SKETCH20_R)
    extrude(amount=-CUT_EXTRUDE7_DEPTH, mode=Mode.SUBTRACT)


with BuildPart() as cut_extrude9_tool:
    # Sketch7 → Cut-Extrude9 (new body)
    with BuildSketch(Plane.XZ):
        Circle(SKETCH7_R)
    extrude(amount=-CUT_EXTRUDE9_DEPTH)


with BuildPart() as part_1:
    add(part.part)

    # Cut-Extrude9: cut by cut_extrude9_tool
    add(cut_extrude9_tool.part, mode=Mode.SUBTRACT)

    # Sketch27 → Cut-Extrude12 (cut)
    with BuildSketch(Plane(origin=(0, 7.8, 0), x_dir=(1, 0, 0), z_dir=(0, 1, 0))):
        Circle(SKETCH27_R)
    extrude(amount=CUT_EXTRUDE12_DEPTH, mode=Mode.SUBTRACT)


with BuildPart() as body_2_1:
    add(body_2.part)

    # Cut-Extrude9: cut by cut_extrude9_tool
    add(cut_extrude9_tool.part, mode=Mode.SUBTRACT)


with BuildPart() as body_3_1:
    add(body_3.part)

    # Cut-Extrude9: cut by cut_extrude9_tool
    add(cut_extrude9_tool.part, mode=Mode.SUBTRACT)


solid = Compound([body_2_1.part, body_3_1.part])
